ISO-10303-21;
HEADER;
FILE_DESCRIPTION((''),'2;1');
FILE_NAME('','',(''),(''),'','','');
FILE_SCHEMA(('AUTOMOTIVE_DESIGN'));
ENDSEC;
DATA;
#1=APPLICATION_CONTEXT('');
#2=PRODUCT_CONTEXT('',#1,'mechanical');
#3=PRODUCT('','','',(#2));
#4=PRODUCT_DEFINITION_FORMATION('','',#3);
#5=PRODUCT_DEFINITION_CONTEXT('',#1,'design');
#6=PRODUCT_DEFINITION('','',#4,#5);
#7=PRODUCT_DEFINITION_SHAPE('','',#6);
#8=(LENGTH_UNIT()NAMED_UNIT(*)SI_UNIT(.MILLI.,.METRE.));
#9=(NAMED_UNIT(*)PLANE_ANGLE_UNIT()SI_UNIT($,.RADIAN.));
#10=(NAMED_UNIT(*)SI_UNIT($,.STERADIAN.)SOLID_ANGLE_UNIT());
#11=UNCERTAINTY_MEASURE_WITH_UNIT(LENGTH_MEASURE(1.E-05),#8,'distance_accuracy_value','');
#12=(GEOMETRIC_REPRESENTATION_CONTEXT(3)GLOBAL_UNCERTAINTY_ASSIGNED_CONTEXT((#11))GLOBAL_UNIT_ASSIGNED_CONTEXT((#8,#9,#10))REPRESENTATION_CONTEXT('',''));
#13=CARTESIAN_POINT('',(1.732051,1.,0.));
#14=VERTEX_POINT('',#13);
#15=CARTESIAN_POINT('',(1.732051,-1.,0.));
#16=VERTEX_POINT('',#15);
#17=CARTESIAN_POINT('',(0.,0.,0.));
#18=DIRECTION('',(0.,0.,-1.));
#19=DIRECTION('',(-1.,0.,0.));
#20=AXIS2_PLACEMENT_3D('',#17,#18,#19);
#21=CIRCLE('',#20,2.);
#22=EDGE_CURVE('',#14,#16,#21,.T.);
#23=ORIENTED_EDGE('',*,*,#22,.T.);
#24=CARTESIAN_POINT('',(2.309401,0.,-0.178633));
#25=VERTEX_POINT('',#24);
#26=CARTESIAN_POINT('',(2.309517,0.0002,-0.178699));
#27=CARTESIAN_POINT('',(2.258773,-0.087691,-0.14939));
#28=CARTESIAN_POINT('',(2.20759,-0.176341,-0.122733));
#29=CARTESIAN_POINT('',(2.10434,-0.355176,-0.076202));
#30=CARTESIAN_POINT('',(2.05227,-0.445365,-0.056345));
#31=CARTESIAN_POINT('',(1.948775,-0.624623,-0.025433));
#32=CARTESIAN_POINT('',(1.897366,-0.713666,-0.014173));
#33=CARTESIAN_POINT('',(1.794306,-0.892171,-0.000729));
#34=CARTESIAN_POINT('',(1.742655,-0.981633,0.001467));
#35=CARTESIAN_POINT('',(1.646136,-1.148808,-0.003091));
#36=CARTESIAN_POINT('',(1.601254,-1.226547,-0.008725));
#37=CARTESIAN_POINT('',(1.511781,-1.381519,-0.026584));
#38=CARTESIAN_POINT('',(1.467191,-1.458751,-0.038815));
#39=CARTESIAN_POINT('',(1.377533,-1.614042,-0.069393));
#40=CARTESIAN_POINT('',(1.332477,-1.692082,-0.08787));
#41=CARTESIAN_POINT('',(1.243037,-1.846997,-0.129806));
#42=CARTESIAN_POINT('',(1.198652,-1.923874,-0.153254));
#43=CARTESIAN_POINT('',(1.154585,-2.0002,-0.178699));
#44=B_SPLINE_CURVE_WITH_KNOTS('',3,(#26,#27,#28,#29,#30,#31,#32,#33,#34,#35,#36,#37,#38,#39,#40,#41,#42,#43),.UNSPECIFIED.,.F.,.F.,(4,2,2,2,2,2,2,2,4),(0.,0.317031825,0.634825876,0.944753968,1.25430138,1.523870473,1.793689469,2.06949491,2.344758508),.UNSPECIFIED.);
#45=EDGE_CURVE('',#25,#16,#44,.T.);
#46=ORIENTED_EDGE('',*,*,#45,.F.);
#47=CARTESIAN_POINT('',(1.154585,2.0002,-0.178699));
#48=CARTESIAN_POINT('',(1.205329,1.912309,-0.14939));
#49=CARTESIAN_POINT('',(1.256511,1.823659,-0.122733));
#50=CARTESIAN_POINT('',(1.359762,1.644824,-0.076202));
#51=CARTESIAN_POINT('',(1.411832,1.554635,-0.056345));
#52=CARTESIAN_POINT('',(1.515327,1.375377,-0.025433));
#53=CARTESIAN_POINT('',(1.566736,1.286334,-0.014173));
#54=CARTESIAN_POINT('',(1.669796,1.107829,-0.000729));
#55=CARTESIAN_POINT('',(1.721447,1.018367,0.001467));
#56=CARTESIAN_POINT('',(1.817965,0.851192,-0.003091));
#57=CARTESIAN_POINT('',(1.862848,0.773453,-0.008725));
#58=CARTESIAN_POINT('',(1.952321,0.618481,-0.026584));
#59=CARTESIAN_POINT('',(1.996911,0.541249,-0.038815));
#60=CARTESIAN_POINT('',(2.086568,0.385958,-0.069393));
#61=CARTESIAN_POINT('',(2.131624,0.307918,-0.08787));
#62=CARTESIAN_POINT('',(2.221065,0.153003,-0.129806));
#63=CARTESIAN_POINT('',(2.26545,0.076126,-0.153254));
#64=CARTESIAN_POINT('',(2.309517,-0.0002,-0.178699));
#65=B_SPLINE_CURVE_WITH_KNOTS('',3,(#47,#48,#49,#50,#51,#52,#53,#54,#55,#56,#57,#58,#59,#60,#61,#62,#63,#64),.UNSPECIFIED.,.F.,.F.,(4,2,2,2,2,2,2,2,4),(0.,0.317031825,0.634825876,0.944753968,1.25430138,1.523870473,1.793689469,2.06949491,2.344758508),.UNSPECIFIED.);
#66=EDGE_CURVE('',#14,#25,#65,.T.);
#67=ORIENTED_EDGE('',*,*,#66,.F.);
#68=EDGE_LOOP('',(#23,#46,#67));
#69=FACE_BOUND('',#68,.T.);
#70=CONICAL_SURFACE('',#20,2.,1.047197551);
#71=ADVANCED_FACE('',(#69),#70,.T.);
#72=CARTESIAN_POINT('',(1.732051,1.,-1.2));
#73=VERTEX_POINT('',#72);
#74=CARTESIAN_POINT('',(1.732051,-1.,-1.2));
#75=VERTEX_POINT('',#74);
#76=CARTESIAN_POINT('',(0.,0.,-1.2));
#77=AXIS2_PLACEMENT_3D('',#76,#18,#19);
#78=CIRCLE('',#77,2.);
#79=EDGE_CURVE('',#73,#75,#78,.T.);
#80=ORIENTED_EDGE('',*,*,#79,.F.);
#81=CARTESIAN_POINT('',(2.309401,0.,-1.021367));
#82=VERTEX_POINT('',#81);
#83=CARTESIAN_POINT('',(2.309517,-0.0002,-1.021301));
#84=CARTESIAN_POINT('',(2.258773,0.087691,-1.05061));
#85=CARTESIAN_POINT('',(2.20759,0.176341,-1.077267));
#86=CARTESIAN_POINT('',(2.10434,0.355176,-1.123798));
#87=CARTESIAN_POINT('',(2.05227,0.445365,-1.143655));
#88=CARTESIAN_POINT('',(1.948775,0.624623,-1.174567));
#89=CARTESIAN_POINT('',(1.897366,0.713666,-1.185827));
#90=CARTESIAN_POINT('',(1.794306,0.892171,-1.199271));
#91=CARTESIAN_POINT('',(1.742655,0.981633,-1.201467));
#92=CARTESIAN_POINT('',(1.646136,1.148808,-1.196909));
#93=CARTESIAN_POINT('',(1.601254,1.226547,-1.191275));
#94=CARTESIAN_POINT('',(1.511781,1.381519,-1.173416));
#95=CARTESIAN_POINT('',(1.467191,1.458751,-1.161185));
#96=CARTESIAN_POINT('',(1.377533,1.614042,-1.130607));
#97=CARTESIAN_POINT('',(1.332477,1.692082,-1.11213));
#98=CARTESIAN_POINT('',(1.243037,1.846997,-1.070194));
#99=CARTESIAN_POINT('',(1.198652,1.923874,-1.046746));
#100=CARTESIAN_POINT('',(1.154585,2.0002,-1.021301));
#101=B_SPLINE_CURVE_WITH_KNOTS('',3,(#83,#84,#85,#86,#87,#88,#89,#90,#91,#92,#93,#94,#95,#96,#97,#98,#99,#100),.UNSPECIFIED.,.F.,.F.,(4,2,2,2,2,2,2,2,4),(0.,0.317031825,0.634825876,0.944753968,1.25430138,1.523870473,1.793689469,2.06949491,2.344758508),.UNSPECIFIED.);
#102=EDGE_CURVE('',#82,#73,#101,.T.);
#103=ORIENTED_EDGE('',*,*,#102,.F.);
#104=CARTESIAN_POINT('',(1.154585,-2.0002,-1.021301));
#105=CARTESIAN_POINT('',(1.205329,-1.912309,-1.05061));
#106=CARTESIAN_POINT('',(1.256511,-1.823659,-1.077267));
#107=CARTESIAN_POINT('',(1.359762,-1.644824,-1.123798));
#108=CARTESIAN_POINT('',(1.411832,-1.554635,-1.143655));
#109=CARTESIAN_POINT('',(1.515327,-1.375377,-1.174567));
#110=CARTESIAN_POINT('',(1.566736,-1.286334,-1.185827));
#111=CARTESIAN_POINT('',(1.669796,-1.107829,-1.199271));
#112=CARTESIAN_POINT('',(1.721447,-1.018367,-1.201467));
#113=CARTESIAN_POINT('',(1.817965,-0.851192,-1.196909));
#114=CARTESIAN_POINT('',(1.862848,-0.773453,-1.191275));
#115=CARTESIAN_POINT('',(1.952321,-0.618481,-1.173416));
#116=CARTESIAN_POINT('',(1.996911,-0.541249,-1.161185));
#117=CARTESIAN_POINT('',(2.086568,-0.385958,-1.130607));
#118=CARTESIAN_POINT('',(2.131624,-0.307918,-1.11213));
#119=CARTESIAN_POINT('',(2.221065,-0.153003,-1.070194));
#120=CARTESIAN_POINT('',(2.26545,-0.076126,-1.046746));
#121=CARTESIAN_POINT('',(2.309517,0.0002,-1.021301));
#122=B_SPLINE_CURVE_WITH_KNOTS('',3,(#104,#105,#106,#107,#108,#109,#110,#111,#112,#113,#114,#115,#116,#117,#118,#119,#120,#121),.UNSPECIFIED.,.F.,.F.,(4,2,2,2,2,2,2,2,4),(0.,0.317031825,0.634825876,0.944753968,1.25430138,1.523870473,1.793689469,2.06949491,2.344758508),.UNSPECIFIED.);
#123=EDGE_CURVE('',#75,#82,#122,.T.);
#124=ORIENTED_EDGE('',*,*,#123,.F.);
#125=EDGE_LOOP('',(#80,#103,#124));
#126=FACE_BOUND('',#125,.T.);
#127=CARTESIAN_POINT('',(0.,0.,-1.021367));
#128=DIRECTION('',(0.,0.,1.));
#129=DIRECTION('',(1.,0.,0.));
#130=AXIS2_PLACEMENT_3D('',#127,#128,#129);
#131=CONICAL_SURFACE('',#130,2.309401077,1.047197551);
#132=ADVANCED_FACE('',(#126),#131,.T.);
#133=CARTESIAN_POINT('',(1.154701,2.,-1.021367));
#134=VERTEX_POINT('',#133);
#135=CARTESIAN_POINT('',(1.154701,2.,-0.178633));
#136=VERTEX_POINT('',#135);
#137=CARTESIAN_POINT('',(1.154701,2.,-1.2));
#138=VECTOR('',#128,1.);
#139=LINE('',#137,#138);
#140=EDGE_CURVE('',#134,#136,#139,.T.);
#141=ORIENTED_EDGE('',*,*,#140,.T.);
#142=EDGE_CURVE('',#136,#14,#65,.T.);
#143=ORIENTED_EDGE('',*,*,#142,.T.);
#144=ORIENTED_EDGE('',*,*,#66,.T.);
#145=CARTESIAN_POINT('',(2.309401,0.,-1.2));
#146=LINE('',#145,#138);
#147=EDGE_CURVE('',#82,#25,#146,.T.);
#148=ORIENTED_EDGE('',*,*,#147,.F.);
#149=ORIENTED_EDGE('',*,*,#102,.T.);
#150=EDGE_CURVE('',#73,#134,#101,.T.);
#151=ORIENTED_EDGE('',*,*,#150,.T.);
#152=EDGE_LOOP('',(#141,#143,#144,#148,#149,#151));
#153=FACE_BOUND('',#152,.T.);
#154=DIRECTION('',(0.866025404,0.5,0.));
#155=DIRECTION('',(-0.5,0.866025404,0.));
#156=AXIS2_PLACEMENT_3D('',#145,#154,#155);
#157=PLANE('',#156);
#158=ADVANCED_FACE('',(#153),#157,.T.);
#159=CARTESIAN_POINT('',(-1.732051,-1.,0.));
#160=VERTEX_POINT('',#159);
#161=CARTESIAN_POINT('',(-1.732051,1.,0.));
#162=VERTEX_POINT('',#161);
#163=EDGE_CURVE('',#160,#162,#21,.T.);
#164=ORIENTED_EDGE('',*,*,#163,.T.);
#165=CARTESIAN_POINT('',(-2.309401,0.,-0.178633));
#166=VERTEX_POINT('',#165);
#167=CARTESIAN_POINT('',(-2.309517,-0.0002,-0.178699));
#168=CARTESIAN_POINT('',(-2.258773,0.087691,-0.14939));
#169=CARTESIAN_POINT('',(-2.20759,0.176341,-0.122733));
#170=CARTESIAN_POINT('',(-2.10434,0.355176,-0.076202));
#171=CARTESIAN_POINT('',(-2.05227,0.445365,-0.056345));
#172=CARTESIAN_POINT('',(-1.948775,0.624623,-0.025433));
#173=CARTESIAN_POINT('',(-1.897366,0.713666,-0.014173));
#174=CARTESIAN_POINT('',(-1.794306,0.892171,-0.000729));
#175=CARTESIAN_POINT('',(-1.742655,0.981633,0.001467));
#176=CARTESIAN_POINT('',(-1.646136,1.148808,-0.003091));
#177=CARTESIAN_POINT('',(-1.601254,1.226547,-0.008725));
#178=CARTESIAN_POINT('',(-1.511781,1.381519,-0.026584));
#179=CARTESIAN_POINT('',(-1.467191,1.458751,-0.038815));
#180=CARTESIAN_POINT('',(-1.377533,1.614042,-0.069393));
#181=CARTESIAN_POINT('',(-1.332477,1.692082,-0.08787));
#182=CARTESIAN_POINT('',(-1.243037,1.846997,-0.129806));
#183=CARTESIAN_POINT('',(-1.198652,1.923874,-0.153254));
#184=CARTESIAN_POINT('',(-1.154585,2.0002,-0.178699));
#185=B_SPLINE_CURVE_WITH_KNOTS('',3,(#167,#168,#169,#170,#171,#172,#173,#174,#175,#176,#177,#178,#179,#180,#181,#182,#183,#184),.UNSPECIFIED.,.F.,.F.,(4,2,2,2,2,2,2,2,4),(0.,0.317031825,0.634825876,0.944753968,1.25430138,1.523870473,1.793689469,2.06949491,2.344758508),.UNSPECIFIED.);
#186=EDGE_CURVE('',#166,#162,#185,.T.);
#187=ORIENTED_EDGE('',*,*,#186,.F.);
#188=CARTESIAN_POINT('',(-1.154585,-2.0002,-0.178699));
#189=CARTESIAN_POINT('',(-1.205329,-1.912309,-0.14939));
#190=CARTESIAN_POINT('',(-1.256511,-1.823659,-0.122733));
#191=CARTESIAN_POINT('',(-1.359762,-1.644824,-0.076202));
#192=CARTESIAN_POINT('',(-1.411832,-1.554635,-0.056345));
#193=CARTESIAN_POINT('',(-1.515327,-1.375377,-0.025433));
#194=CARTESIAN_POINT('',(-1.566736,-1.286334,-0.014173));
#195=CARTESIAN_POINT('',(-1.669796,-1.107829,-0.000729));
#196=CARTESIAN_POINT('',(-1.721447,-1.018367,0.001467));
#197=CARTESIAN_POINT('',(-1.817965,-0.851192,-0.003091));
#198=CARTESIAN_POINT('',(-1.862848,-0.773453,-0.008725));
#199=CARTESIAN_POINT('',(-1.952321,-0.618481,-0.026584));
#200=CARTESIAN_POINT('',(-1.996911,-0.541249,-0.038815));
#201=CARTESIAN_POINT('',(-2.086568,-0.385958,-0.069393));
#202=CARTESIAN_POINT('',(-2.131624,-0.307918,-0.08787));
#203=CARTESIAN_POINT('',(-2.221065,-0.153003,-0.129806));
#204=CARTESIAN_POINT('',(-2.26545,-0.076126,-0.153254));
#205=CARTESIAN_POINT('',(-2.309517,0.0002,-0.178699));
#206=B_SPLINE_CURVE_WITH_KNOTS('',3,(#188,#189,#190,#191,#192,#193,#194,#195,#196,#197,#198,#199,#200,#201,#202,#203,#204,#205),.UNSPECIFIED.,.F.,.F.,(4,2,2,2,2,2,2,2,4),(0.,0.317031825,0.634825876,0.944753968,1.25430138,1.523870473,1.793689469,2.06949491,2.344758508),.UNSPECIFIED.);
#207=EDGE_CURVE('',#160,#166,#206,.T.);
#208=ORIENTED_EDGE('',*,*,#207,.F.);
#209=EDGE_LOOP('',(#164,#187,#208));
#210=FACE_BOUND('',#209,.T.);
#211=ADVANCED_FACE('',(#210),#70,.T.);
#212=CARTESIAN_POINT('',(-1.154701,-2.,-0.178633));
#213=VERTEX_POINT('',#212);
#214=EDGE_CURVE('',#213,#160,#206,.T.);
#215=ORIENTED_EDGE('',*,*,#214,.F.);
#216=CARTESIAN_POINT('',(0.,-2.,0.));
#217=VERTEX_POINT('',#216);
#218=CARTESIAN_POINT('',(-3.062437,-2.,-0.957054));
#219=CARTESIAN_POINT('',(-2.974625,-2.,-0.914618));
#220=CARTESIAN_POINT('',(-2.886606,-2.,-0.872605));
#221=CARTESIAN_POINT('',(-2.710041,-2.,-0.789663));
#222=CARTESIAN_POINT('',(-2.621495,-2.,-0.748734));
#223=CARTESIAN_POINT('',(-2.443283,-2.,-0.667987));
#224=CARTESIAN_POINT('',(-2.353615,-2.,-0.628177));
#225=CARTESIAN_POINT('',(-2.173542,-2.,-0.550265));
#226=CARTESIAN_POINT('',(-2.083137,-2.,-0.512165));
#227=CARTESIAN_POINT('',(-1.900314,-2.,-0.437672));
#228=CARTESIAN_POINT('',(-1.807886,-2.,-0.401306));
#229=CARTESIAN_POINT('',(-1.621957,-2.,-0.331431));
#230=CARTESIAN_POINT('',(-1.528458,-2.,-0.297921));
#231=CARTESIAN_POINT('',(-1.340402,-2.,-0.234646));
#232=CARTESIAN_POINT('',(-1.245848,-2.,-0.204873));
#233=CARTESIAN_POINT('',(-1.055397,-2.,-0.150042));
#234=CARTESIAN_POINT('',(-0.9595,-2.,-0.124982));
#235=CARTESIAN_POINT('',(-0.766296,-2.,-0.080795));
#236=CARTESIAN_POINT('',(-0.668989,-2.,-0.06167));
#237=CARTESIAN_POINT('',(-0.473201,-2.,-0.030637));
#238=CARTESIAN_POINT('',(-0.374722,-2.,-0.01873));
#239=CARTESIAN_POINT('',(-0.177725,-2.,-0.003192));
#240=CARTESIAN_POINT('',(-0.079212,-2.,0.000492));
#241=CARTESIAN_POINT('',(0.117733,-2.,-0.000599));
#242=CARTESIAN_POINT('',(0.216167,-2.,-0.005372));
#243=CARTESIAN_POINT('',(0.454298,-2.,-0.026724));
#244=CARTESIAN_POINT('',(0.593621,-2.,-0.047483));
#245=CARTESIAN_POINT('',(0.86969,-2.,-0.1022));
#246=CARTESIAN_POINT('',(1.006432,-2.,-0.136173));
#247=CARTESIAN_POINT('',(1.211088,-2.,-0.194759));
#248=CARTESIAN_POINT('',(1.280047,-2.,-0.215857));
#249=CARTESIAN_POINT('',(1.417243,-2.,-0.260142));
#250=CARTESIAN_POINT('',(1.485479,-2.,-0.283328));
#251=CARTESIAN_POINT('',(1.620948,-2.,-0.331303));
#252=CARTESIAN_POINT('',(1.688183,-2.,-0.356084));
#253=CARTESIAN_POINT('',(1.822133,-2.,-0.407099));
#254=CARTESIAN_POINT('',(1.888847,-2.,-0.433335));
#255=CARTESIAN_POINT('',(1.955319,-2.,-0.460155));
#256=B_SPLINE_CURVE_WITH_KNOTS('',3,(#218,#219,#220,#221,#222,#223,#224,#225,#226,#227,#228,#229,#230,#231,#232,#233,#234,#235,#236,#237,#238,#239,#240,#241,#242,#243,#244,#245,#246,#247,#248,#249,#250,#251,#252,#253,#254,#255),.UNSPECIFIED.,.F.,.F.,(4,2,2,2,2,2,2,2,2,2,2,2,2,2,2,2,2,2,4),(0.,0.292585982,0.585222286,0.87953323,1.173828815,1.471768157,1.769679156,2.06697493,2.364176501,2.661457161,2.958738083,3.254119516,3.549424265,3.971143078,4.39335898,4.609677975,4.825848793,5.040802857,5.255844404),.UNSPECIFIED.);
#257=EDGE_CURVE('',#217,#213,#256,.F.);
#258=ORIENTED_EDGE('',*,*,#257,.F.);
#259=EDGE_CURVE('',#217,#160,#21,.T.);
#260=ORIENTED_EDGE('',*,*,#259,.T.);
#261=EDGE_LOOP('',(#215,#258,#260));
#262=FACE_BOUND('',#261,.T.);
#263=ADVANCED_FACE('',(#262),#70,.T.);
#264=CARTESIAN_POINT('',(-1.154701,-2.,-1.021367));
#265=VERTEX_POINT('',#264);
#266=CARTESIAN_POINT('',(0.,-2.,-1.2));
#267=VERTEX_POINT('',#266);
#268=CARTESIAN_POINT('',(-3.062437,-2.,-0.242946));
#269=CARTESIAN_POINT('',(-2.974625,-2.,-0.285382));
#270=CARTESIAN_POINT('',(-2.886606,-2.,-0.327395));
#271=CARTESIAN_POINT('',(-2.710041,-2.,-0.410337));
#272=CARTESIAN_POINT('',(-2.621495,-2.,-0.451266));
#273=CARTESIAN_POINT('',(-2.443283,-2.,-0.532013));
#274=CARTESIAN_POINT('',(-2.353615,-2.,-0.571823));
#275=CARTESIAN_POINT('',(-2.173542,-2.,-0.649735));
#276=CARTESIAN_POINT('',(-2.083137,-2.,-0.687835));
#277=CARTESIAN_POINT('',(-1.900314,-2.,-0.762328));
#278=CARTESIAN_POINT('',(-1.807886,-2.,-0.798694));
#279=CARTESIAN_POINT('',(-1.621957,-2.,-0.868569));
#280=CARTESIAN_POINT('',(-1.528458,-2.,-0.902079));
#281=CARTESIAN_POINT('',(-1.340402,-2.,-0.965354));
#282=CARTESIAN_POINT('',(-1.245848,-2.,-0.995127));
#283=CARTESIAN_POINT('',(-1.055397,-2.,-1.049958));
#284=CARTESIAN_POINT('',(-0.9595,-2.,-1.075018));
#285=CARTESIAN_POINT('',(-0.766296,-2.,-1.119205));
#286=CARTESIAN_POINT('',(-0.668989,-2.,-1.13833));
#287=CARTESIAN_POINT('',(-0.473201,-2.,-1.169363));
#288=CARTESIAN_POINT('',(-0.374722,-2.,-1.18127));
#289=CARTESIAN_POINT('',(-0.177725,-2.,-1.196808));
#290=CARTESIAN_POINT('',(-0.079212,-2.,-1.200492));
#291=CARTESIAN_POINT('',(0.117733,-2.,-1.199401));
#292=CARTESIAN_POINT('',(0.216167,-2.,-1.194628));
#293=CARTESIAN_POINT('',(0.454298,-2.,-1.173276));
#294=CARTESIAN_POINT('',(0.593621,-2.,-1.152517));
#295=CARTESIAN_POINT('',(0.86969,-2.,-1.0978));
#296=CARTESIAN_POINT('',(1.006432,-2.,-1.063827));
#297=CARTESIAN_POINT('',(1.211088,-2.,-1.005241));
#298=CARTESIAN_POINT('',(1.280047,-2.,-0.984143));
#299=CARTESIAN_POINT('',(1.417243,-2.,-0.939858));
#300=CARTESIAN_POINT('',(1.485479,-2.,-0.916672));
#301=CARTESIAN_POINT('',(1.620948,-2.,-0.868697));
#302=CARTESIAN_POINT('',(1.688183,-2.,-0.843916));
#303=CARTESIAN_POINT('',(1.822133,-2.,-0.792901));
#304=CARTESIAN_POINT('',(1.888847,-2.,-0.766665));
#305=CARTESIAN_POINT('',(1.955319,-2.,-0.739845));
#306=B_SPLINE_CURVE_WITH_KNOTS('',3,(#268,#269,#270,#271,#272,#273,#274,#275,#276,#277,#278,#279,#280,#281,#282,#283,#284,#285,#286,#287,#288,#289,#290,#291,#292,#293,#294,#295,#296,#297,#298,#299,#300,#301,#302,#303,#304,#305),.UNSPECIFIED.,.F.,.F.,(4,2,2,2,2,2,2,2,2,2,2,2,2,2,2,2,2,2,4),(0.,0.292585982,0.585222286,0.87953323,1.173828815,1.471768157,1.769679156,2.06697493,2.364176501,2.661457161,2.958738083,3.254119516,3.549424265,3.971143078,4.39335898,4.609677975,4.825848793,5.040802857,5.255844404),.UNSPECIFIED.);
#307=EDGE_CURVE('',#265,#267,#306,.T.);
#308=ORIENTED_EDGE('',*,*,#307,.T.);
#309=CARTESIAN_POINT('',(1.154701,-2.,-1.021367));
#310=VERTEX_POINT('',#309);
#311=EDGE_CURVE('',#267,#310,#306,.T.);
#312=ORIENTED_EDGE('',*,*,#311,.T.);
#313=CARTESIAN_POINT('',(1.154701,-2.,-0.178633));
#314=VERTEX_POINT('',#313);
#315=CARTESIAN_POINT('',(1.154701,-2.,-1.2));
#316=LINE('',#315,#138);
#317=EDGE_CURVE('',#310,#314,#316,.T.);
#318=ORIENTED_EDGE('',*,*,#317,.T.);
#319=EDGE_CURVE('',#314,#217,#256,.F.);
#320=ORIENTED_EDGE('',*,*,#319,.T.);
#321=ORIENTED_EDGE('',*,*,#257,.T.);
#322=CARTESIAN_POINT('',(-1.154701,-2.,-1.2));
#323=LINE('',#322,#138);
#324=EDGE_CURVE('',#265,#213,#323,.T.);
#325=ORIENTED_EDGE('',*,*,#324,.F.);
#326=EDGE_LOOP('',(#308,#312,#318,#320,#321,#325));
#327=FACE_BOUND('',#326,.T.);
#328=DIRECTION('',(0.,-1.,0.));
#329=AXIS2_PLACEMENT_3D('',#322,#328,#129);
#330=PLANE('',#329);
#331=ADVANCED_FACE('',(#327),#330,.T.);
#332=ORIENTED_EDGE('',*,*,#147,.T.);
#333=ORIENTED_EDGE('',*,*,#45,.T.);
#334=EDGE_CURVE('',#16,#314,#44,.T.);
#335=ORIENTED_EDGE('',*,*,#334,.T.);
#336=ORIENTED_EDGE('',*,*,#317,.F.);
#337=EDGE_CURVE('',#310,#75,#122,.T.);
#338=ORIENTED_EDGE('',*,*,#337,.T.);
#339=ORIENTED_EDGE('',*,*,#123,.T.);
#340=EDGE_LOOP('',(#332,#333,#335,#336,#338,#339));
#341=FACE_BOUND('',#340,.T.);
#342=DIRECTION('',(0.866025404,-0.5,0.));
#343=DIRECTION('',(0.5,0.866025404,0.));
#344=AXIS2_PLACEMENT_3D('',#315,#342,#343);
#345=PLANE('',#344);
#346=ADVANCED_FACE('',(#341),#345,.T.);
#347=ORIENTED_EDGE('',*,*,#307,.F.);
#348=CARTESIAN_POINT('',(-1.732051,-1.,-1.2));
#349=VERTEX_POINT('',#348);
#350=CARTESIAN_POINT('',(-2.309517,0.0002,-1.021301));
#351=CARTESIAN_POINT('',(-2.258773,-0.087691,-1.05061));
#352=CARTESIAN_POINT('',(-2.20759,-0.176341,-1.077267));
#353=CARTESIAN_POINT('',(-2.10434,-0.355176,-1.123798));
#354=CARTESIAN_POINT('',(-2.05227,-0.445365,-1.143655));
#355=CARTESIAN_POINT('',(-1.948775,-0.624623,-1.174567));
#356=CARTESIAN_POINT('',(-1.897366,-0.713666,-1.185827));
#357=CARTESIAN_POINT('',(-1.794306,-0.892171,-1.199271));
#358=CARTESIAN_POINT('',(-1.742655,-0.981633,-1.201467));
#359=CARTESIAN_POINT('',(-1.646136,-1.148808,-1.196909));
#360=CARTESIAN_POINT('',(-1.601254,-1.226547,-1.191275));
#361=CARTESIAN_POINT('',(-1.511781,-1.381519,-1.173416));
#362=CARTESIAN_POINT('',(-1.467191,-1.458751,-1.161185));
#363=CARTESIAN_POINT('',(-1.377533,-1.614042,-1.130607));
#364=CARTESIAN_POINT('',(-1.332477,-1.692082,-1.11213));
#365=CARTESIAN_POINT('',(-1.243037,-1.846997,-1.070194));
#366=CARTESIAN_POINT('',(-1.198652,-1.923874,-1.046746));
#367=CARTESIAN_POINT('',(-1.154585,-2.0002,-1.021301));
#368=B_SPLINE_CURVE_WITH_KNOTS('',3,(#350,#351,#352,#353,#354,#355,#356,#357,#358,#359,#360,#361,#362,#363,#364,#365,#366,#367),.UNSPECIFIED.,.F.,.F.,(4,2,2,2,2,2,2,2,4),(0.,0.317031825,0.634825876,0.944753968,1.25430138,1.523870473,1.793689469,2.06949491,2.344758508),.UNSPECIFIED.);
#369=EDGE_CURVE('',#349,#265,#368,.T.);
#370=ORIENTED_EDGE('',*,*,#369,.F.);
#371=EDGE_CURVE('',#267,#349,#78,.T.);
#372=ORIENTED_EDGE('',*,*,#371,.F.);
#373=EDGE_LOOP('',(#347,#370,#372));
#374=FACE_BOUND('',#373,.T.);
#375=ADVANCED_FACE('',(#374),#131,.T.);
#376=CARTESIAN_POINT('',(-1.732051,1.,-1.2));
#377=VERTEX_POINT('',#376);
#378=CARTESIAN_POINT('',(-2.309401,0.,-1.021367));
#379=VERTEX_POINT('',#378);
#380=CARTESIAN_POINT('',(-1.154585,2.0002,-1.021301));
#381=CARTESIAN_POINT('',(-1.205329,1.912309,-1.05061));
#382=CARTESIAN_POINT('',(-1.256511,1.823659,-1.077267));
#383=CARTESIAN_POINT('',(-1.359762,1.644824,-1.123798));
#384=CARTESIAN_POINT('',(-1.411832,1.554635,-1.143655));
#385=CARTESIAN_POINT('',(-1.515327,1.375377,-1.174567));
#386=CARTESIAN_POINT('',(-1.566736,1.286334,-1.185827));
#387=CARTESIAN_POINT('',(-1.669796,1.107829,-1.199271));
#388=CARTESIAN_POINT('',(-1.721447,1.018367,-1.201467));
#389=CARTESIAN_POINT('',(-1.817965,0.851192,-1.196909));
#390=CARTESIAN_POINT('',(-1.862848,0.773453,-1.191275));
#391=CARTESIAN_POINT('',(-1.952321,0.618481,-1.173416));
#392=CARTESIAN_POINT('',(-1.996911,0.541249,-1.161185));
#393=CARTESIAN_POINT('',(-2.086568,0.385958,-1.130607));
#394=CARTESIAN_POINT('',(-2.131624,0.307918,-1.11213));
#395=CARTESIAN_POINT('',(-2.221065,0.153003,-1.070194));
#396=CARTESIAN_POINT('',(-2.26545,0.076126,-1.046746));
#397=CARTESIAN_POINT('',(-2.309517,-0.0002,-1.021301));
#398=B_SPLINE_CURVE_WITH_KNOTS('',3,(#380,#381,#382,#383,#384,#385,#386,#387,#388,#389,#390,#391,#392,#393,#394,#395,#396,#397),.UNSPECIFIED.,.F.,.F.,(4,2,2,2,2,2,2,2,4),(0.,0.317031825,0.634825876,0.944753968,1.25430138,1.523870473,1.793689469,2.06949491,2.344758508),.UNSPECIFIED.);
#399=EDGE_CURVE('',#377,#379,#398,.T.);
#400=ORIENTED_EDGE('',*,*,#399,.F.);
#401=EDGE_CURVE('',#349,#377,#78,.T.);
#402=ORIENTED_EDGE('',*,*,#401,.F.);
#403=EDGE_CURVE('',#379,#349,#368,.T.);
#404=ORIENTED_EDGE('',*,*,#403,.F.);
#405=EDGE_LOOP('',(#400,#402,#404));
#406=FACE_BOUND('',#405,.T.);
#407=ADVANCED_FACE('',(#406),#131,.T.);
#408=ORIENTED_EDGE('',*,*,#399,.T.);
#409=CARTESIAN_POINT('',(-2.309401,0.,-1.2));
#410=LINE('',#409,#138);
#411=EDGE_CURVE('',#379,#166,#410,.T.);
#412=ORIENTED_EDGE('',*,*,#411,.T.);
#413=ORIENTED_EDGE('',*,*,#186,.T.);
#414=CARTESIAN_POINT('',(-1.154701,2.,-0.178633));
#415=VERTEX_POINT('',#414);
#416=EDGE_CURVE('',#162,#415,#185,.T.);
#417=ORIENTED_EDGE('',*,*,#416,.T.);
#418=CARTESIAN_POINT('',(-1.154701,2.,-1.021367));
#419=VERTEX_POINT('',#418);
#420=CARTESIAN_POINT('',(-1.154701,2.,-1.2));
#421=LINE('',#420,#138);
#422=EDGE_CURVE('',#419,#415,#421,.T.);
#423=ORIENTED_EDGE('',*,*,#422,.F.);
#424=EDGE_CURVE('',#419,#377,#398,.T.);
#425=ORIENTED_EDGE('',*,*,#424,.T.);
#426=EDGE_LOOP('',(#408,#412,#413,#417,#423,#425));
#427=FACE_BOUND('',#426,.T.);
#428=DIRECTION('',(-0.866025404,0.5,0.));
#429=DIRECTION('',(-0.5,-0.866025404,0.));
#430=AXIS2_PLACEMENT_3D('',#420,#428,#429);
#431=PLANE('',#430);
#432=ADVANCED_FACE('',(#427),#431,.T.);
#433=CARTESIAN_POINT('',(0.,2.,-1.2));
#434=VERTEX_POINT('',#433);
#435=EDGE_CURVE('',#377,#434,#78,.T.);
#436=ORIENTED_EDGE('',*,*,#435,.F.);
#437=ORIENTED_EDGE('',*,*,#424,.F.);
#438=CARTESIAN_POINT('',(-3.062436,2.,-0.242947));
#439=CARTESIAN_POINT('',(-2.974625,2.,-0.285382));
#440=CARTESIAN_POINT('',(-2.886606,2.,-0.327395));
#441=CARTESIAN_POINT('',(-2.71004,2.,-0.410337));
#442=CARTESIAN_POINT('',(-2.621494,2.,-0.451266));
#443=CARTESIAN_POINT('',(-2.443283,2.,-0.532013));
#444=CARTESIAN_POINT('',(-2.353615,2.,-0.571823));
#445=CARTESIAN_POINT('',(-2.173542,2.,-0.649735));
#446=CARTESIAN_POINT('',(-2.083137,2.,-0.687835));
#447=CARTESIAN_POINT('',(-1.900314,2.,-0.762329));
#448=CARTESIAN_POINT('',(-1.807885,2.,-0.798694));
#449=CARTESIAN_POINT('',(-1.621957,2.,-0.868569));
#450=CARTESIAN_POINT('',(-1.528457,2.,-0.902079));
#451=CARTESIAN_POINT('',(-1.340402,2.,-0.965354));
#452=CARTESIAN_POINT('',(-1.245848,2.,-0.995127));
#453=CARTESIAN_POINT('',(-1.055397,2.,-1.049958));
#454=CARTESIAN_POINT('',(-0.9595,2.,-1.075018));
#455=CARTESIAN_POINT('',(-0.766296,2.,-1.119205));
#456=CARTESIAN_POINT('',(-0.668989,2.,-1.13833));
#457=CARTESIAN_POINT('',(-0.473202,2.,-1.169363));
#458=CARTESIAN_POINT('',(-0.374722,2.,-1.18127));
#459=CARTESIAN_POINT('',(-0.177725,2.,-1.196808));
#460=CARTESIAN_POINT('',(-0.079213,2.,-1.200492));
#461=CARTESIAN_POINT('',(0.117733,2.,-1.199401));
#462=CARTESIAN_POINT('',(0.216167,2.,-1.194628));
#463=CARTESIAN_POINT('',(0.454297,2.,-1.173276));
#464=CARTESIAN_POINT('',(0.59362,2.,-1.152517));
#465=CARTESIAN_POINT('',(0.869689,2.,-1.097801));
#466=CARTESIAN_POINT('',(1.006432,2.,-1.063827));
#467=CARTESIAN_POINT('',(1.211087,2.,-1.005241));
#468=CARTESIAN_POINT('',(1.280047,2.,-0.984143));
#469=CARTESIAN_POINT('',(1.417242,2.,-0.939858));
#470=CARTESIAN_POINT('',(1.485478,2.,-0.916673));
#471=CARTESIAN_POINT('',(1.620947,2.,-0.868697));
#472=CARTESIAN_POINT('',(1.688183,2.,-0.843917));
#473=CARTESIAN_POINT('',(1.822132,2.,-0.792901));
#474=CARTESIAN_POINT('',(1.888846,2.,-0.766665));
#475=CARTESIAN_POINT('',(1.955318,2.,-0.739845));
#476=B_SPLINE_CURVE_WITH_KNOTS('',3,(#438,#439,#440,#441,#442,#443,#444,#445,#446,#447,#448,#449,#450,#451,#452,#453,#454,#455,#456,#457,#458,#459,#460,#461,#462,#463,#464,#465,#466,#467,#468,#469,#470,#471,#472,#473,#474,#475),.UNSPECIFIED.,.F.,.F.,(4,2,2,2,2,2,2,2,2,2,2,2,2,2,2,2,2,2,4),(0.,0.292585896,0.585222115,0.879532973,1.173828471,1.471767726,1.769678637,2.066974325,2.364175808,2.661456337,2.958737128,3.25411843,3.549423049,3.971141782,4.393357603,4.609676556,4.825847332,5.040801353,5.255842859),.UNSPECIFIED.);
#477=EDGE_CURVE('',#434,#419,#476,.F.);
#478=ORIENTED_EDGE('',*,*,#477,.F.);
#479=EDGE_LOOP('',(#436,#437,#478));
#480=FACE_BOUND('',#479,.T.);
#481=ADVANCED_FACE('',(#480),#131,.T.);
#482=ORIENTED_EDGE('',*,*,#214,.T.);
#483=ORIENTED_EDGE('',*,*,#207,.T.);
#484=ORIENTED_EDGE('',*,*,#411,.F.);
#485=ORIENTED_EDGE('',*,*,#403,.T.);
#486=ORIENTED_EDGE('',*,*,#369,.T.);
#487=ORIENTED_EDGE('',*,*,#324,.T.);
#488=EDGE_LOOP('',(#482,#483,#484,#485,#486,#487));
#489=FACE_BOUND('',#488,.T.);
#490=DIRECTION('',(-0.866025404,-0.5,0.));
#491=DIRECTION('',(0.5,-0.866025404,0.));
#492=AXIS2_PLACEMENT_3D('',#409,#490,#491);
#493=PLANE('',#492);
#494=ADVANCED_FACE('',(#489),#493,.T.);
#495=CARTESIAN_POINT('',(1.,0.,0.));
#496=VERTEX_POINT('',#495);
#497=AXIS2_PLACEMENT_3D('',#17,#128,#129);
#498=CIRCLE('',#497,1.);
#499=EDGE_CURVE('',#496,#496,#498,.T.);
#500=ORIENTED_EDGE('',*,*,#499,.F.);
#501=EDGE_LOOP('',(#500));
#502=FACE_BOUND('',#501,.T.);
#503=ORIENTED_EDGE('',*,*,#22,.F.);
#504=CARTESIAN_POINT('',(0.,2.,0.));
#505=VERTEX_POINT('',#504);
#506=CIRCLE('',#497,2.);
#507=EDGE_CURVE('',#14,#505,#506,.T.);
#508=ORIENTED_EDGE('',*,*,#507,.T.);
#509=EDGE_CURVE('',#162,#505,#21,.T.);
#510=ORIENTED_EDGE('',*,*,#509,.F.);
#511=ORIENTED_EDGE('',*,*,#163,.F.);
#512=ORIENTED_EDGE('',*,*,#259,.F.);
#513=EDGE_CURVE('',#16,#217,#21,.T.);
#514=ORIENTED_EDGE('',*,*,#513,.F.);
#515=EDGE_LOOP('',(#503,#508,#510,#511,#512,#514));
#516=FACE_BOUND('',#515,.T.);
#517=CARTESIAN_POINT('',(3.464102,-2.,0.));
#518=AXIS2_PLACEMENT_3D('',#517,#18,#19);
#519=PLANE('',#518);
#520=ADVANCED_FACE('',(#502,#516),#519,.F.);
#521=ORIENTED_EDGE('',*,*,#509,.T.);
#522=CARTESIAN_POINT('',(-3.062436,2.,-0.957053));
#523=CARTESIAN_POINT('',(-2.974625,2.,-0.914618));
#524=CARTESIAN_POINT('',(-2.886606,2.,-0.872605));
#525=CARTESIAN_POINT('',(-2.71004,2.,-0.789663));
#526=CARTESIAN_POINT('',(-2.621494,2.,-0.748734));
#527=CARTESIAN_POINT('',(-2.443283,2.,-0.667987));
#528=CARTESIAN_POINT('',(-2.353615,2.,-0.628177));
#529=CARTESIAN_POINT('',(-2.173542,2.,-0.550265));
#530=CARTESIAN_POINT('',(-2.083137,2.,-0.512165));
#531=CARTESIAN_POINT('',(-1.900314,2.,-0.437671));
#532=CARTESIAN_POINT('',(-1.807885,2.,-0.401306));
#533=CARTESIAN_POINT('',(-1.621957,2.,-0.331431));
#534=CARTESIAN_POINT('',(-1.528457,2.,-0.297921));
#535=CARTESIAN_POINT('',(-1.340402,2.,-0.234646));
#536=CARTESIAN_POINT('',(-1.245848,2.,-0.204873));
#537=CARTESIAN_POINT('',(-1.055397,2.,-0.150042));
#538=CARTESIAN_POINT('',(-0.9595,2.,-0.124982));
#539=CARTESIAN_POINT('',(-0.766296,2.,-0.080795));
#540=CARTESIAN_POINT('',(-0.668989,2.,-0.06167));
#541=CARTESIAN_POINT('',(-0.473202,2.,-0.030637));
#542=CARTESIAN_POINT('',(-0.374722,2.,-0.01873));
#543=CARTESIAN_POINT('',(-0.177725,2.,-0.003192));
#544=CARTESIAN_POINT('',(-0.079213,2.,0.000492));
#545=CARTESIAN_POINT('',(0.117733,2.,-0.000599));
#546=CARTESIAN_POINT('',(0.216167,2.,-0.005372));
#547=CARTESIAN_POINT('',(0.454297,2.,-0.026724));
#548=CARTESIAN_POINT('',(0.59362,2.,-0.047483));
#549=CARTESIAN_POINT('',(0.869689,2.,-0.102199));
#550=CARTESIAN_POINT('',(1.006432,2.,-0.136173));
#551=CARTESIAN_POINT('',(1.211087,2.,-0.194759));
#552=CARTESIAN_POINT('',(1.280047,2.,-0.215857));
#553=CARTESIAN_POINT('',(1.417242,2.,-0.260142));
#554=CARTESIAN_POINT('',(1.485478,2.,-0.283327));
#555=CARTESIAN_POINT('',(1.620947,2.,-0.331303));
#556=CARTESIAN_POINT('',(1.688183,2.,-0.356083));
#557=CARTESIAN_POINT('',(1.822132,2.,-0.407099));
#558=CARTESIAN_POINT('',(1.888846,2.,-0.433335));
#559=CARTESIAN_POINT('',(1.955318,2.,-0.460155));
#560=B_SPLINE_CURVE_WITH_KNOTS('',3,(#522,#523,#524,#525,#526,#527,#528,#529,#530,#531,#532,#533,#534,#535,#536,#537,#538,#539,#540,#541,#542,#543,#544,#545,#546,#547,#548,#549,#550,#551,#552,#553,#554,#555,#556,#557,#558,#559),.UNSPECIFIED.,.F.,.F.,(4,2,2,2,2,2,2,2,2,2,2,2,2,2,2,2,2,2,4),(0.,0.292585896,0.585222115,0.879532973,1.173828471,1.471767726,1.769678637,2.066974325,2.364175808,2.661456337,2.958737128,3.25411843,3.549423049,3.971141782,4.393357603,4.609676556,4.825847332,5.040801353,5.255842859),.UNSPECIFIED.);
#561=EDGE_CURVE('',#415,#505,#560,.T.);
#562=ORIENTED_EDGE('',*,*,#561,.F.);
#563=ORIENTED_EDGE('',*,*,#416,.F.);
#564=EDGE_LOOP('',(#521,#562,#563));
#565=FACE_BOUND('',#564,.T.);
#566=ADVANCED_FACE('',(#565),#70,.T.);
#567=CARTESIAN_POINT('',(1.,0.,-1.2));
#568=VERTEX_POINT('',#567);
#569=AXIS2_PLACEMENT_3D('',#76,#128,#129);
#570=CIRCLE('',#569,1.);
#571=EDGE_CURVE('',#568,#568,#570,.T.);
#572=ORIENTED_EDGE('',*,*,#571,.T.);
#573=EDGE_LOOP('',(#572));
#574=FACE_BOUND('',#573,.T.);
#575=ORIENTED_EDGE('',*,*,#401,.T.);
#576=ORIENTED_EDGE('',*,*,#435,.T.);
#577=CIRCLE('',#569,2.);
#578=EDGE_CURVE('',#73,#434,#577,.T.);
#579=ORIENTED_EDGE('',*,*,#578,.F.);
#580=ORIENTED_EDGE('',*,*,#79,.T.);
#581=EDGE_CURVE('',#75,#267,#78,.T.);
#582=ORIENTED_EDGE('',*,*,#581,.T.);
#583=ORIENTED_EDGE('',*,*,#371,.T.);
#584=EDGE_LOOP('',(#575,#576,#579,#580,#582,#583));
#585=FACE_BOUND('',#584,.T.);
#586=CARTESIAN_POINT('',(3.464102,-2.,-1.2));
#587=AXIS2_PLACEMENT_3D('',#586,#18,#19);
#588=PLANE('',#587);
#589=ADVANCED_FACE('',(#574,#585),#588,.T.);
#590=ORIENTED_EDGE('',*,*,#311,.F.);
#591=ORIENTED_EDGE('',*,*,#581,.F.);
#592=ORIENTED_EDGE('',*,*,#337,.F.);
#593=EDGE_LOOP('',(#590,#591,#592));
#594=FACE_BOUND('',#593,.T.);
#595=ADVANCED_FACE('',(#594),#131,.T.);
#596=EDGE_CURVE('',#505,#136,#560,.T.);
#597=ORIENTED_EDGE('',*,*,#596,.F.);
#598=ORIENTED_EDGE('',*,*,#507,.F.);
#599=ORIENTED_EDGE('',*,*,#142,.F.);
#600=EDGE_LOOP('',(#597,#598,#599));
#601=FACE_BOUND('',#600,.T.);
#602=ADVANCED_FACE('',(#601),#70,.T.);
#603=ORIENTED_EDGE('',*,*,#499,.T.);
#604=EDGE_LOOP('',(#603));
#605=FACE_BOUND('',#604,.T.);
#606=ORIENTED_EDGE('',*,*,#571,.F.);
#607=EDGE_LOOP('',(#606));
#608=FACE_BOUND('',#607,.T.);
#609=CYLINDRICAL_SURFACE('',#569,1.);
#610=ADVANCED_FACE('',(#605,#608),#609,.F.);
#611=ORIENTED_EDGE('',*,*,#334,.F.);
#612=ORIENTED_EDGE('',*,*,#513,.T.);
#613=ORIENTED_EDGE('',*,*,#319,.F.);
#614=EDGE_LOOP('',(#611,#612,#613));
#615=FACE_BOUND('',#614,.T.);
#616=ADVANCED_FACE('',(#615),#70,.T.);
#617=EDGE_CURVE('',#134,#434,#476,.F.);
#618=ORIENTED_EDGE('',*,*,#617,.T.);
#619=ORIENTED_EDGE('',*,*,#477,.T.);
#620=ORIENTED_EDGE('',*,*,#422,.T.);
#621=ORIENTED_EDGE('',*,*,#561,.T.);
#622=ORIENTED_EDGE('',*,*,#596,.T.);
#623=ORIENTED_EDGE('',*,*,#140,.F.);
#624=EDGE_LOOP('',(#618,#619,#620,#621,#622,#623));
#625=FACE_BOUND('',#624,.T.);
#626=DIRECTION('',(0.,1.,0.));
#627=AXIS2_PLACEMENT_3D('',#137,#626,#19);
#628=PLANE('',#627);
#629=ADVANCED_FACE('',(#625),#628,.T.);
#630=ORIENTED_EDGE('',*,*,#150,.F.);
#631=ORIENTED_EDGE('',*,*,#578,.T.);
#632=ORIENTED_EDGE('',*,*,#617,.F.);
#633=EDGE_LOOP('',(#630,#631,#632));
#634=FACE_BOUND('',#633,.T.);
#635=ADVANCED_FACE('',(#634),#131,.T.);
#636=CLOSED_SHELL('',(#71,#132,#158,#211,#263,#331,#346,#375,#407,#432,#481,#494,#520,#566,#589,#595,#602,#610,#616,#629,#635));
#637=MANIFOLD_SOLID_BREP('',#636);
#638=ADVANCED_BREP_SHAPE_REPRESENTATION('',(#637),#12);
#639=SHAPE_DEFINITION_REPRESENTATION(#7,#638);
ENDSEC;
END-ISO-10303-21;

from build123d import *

# Parameters (mm, degrees)
HEX_2_DEPTH          = 1.2
THREAD_BORESKETCH4_R = 1
THREAD_BORE_DEPTH    = 2.2


with BuildPart() as part:
    # HexSketch1 → Hex 2 (new body)
    with BuildSketch(Plane.XY):
        Polygon((1.154700538, 2), (-1.154700538, 2), (-2.309401077, 0), (-1.154700538, -2), (1.154700538, -2), (2.309401077, 0), align=None)
    extrude(amount=-HEX_2_DEPTH)

    # Thread_BoreSketch4 → Thread_Bore (cut, through all)
    with BuildSketch(Plane.XY):
        Circle(THREAD_BORESKETCH4_R)
    extrude(amount=-THREAD_BORE_DEPTH, mode=Mode.SUBTRACT)

    # NUT_CHAMFERSketch10 → NUT_CHAMFER (revolve, cut)
    with BuildSketch(Plane(origin=(0, 0, 0), x_dir=(0, 0, -1), z_dir=(0.866025404, 0.5, 0))):
        Polygon((0, 2), (0.178632795, 2.309401077), (0, 2.309401077), align=None)
        Polygon((1.2, 2), (1.021367205, 2.309401077), (1.2, 2.309401077), align=None)
    revolve(axis=Axis((0, 0, 50), (0, 0, -1)), mode=Mode.SUBTRACT)


solid = part.part
